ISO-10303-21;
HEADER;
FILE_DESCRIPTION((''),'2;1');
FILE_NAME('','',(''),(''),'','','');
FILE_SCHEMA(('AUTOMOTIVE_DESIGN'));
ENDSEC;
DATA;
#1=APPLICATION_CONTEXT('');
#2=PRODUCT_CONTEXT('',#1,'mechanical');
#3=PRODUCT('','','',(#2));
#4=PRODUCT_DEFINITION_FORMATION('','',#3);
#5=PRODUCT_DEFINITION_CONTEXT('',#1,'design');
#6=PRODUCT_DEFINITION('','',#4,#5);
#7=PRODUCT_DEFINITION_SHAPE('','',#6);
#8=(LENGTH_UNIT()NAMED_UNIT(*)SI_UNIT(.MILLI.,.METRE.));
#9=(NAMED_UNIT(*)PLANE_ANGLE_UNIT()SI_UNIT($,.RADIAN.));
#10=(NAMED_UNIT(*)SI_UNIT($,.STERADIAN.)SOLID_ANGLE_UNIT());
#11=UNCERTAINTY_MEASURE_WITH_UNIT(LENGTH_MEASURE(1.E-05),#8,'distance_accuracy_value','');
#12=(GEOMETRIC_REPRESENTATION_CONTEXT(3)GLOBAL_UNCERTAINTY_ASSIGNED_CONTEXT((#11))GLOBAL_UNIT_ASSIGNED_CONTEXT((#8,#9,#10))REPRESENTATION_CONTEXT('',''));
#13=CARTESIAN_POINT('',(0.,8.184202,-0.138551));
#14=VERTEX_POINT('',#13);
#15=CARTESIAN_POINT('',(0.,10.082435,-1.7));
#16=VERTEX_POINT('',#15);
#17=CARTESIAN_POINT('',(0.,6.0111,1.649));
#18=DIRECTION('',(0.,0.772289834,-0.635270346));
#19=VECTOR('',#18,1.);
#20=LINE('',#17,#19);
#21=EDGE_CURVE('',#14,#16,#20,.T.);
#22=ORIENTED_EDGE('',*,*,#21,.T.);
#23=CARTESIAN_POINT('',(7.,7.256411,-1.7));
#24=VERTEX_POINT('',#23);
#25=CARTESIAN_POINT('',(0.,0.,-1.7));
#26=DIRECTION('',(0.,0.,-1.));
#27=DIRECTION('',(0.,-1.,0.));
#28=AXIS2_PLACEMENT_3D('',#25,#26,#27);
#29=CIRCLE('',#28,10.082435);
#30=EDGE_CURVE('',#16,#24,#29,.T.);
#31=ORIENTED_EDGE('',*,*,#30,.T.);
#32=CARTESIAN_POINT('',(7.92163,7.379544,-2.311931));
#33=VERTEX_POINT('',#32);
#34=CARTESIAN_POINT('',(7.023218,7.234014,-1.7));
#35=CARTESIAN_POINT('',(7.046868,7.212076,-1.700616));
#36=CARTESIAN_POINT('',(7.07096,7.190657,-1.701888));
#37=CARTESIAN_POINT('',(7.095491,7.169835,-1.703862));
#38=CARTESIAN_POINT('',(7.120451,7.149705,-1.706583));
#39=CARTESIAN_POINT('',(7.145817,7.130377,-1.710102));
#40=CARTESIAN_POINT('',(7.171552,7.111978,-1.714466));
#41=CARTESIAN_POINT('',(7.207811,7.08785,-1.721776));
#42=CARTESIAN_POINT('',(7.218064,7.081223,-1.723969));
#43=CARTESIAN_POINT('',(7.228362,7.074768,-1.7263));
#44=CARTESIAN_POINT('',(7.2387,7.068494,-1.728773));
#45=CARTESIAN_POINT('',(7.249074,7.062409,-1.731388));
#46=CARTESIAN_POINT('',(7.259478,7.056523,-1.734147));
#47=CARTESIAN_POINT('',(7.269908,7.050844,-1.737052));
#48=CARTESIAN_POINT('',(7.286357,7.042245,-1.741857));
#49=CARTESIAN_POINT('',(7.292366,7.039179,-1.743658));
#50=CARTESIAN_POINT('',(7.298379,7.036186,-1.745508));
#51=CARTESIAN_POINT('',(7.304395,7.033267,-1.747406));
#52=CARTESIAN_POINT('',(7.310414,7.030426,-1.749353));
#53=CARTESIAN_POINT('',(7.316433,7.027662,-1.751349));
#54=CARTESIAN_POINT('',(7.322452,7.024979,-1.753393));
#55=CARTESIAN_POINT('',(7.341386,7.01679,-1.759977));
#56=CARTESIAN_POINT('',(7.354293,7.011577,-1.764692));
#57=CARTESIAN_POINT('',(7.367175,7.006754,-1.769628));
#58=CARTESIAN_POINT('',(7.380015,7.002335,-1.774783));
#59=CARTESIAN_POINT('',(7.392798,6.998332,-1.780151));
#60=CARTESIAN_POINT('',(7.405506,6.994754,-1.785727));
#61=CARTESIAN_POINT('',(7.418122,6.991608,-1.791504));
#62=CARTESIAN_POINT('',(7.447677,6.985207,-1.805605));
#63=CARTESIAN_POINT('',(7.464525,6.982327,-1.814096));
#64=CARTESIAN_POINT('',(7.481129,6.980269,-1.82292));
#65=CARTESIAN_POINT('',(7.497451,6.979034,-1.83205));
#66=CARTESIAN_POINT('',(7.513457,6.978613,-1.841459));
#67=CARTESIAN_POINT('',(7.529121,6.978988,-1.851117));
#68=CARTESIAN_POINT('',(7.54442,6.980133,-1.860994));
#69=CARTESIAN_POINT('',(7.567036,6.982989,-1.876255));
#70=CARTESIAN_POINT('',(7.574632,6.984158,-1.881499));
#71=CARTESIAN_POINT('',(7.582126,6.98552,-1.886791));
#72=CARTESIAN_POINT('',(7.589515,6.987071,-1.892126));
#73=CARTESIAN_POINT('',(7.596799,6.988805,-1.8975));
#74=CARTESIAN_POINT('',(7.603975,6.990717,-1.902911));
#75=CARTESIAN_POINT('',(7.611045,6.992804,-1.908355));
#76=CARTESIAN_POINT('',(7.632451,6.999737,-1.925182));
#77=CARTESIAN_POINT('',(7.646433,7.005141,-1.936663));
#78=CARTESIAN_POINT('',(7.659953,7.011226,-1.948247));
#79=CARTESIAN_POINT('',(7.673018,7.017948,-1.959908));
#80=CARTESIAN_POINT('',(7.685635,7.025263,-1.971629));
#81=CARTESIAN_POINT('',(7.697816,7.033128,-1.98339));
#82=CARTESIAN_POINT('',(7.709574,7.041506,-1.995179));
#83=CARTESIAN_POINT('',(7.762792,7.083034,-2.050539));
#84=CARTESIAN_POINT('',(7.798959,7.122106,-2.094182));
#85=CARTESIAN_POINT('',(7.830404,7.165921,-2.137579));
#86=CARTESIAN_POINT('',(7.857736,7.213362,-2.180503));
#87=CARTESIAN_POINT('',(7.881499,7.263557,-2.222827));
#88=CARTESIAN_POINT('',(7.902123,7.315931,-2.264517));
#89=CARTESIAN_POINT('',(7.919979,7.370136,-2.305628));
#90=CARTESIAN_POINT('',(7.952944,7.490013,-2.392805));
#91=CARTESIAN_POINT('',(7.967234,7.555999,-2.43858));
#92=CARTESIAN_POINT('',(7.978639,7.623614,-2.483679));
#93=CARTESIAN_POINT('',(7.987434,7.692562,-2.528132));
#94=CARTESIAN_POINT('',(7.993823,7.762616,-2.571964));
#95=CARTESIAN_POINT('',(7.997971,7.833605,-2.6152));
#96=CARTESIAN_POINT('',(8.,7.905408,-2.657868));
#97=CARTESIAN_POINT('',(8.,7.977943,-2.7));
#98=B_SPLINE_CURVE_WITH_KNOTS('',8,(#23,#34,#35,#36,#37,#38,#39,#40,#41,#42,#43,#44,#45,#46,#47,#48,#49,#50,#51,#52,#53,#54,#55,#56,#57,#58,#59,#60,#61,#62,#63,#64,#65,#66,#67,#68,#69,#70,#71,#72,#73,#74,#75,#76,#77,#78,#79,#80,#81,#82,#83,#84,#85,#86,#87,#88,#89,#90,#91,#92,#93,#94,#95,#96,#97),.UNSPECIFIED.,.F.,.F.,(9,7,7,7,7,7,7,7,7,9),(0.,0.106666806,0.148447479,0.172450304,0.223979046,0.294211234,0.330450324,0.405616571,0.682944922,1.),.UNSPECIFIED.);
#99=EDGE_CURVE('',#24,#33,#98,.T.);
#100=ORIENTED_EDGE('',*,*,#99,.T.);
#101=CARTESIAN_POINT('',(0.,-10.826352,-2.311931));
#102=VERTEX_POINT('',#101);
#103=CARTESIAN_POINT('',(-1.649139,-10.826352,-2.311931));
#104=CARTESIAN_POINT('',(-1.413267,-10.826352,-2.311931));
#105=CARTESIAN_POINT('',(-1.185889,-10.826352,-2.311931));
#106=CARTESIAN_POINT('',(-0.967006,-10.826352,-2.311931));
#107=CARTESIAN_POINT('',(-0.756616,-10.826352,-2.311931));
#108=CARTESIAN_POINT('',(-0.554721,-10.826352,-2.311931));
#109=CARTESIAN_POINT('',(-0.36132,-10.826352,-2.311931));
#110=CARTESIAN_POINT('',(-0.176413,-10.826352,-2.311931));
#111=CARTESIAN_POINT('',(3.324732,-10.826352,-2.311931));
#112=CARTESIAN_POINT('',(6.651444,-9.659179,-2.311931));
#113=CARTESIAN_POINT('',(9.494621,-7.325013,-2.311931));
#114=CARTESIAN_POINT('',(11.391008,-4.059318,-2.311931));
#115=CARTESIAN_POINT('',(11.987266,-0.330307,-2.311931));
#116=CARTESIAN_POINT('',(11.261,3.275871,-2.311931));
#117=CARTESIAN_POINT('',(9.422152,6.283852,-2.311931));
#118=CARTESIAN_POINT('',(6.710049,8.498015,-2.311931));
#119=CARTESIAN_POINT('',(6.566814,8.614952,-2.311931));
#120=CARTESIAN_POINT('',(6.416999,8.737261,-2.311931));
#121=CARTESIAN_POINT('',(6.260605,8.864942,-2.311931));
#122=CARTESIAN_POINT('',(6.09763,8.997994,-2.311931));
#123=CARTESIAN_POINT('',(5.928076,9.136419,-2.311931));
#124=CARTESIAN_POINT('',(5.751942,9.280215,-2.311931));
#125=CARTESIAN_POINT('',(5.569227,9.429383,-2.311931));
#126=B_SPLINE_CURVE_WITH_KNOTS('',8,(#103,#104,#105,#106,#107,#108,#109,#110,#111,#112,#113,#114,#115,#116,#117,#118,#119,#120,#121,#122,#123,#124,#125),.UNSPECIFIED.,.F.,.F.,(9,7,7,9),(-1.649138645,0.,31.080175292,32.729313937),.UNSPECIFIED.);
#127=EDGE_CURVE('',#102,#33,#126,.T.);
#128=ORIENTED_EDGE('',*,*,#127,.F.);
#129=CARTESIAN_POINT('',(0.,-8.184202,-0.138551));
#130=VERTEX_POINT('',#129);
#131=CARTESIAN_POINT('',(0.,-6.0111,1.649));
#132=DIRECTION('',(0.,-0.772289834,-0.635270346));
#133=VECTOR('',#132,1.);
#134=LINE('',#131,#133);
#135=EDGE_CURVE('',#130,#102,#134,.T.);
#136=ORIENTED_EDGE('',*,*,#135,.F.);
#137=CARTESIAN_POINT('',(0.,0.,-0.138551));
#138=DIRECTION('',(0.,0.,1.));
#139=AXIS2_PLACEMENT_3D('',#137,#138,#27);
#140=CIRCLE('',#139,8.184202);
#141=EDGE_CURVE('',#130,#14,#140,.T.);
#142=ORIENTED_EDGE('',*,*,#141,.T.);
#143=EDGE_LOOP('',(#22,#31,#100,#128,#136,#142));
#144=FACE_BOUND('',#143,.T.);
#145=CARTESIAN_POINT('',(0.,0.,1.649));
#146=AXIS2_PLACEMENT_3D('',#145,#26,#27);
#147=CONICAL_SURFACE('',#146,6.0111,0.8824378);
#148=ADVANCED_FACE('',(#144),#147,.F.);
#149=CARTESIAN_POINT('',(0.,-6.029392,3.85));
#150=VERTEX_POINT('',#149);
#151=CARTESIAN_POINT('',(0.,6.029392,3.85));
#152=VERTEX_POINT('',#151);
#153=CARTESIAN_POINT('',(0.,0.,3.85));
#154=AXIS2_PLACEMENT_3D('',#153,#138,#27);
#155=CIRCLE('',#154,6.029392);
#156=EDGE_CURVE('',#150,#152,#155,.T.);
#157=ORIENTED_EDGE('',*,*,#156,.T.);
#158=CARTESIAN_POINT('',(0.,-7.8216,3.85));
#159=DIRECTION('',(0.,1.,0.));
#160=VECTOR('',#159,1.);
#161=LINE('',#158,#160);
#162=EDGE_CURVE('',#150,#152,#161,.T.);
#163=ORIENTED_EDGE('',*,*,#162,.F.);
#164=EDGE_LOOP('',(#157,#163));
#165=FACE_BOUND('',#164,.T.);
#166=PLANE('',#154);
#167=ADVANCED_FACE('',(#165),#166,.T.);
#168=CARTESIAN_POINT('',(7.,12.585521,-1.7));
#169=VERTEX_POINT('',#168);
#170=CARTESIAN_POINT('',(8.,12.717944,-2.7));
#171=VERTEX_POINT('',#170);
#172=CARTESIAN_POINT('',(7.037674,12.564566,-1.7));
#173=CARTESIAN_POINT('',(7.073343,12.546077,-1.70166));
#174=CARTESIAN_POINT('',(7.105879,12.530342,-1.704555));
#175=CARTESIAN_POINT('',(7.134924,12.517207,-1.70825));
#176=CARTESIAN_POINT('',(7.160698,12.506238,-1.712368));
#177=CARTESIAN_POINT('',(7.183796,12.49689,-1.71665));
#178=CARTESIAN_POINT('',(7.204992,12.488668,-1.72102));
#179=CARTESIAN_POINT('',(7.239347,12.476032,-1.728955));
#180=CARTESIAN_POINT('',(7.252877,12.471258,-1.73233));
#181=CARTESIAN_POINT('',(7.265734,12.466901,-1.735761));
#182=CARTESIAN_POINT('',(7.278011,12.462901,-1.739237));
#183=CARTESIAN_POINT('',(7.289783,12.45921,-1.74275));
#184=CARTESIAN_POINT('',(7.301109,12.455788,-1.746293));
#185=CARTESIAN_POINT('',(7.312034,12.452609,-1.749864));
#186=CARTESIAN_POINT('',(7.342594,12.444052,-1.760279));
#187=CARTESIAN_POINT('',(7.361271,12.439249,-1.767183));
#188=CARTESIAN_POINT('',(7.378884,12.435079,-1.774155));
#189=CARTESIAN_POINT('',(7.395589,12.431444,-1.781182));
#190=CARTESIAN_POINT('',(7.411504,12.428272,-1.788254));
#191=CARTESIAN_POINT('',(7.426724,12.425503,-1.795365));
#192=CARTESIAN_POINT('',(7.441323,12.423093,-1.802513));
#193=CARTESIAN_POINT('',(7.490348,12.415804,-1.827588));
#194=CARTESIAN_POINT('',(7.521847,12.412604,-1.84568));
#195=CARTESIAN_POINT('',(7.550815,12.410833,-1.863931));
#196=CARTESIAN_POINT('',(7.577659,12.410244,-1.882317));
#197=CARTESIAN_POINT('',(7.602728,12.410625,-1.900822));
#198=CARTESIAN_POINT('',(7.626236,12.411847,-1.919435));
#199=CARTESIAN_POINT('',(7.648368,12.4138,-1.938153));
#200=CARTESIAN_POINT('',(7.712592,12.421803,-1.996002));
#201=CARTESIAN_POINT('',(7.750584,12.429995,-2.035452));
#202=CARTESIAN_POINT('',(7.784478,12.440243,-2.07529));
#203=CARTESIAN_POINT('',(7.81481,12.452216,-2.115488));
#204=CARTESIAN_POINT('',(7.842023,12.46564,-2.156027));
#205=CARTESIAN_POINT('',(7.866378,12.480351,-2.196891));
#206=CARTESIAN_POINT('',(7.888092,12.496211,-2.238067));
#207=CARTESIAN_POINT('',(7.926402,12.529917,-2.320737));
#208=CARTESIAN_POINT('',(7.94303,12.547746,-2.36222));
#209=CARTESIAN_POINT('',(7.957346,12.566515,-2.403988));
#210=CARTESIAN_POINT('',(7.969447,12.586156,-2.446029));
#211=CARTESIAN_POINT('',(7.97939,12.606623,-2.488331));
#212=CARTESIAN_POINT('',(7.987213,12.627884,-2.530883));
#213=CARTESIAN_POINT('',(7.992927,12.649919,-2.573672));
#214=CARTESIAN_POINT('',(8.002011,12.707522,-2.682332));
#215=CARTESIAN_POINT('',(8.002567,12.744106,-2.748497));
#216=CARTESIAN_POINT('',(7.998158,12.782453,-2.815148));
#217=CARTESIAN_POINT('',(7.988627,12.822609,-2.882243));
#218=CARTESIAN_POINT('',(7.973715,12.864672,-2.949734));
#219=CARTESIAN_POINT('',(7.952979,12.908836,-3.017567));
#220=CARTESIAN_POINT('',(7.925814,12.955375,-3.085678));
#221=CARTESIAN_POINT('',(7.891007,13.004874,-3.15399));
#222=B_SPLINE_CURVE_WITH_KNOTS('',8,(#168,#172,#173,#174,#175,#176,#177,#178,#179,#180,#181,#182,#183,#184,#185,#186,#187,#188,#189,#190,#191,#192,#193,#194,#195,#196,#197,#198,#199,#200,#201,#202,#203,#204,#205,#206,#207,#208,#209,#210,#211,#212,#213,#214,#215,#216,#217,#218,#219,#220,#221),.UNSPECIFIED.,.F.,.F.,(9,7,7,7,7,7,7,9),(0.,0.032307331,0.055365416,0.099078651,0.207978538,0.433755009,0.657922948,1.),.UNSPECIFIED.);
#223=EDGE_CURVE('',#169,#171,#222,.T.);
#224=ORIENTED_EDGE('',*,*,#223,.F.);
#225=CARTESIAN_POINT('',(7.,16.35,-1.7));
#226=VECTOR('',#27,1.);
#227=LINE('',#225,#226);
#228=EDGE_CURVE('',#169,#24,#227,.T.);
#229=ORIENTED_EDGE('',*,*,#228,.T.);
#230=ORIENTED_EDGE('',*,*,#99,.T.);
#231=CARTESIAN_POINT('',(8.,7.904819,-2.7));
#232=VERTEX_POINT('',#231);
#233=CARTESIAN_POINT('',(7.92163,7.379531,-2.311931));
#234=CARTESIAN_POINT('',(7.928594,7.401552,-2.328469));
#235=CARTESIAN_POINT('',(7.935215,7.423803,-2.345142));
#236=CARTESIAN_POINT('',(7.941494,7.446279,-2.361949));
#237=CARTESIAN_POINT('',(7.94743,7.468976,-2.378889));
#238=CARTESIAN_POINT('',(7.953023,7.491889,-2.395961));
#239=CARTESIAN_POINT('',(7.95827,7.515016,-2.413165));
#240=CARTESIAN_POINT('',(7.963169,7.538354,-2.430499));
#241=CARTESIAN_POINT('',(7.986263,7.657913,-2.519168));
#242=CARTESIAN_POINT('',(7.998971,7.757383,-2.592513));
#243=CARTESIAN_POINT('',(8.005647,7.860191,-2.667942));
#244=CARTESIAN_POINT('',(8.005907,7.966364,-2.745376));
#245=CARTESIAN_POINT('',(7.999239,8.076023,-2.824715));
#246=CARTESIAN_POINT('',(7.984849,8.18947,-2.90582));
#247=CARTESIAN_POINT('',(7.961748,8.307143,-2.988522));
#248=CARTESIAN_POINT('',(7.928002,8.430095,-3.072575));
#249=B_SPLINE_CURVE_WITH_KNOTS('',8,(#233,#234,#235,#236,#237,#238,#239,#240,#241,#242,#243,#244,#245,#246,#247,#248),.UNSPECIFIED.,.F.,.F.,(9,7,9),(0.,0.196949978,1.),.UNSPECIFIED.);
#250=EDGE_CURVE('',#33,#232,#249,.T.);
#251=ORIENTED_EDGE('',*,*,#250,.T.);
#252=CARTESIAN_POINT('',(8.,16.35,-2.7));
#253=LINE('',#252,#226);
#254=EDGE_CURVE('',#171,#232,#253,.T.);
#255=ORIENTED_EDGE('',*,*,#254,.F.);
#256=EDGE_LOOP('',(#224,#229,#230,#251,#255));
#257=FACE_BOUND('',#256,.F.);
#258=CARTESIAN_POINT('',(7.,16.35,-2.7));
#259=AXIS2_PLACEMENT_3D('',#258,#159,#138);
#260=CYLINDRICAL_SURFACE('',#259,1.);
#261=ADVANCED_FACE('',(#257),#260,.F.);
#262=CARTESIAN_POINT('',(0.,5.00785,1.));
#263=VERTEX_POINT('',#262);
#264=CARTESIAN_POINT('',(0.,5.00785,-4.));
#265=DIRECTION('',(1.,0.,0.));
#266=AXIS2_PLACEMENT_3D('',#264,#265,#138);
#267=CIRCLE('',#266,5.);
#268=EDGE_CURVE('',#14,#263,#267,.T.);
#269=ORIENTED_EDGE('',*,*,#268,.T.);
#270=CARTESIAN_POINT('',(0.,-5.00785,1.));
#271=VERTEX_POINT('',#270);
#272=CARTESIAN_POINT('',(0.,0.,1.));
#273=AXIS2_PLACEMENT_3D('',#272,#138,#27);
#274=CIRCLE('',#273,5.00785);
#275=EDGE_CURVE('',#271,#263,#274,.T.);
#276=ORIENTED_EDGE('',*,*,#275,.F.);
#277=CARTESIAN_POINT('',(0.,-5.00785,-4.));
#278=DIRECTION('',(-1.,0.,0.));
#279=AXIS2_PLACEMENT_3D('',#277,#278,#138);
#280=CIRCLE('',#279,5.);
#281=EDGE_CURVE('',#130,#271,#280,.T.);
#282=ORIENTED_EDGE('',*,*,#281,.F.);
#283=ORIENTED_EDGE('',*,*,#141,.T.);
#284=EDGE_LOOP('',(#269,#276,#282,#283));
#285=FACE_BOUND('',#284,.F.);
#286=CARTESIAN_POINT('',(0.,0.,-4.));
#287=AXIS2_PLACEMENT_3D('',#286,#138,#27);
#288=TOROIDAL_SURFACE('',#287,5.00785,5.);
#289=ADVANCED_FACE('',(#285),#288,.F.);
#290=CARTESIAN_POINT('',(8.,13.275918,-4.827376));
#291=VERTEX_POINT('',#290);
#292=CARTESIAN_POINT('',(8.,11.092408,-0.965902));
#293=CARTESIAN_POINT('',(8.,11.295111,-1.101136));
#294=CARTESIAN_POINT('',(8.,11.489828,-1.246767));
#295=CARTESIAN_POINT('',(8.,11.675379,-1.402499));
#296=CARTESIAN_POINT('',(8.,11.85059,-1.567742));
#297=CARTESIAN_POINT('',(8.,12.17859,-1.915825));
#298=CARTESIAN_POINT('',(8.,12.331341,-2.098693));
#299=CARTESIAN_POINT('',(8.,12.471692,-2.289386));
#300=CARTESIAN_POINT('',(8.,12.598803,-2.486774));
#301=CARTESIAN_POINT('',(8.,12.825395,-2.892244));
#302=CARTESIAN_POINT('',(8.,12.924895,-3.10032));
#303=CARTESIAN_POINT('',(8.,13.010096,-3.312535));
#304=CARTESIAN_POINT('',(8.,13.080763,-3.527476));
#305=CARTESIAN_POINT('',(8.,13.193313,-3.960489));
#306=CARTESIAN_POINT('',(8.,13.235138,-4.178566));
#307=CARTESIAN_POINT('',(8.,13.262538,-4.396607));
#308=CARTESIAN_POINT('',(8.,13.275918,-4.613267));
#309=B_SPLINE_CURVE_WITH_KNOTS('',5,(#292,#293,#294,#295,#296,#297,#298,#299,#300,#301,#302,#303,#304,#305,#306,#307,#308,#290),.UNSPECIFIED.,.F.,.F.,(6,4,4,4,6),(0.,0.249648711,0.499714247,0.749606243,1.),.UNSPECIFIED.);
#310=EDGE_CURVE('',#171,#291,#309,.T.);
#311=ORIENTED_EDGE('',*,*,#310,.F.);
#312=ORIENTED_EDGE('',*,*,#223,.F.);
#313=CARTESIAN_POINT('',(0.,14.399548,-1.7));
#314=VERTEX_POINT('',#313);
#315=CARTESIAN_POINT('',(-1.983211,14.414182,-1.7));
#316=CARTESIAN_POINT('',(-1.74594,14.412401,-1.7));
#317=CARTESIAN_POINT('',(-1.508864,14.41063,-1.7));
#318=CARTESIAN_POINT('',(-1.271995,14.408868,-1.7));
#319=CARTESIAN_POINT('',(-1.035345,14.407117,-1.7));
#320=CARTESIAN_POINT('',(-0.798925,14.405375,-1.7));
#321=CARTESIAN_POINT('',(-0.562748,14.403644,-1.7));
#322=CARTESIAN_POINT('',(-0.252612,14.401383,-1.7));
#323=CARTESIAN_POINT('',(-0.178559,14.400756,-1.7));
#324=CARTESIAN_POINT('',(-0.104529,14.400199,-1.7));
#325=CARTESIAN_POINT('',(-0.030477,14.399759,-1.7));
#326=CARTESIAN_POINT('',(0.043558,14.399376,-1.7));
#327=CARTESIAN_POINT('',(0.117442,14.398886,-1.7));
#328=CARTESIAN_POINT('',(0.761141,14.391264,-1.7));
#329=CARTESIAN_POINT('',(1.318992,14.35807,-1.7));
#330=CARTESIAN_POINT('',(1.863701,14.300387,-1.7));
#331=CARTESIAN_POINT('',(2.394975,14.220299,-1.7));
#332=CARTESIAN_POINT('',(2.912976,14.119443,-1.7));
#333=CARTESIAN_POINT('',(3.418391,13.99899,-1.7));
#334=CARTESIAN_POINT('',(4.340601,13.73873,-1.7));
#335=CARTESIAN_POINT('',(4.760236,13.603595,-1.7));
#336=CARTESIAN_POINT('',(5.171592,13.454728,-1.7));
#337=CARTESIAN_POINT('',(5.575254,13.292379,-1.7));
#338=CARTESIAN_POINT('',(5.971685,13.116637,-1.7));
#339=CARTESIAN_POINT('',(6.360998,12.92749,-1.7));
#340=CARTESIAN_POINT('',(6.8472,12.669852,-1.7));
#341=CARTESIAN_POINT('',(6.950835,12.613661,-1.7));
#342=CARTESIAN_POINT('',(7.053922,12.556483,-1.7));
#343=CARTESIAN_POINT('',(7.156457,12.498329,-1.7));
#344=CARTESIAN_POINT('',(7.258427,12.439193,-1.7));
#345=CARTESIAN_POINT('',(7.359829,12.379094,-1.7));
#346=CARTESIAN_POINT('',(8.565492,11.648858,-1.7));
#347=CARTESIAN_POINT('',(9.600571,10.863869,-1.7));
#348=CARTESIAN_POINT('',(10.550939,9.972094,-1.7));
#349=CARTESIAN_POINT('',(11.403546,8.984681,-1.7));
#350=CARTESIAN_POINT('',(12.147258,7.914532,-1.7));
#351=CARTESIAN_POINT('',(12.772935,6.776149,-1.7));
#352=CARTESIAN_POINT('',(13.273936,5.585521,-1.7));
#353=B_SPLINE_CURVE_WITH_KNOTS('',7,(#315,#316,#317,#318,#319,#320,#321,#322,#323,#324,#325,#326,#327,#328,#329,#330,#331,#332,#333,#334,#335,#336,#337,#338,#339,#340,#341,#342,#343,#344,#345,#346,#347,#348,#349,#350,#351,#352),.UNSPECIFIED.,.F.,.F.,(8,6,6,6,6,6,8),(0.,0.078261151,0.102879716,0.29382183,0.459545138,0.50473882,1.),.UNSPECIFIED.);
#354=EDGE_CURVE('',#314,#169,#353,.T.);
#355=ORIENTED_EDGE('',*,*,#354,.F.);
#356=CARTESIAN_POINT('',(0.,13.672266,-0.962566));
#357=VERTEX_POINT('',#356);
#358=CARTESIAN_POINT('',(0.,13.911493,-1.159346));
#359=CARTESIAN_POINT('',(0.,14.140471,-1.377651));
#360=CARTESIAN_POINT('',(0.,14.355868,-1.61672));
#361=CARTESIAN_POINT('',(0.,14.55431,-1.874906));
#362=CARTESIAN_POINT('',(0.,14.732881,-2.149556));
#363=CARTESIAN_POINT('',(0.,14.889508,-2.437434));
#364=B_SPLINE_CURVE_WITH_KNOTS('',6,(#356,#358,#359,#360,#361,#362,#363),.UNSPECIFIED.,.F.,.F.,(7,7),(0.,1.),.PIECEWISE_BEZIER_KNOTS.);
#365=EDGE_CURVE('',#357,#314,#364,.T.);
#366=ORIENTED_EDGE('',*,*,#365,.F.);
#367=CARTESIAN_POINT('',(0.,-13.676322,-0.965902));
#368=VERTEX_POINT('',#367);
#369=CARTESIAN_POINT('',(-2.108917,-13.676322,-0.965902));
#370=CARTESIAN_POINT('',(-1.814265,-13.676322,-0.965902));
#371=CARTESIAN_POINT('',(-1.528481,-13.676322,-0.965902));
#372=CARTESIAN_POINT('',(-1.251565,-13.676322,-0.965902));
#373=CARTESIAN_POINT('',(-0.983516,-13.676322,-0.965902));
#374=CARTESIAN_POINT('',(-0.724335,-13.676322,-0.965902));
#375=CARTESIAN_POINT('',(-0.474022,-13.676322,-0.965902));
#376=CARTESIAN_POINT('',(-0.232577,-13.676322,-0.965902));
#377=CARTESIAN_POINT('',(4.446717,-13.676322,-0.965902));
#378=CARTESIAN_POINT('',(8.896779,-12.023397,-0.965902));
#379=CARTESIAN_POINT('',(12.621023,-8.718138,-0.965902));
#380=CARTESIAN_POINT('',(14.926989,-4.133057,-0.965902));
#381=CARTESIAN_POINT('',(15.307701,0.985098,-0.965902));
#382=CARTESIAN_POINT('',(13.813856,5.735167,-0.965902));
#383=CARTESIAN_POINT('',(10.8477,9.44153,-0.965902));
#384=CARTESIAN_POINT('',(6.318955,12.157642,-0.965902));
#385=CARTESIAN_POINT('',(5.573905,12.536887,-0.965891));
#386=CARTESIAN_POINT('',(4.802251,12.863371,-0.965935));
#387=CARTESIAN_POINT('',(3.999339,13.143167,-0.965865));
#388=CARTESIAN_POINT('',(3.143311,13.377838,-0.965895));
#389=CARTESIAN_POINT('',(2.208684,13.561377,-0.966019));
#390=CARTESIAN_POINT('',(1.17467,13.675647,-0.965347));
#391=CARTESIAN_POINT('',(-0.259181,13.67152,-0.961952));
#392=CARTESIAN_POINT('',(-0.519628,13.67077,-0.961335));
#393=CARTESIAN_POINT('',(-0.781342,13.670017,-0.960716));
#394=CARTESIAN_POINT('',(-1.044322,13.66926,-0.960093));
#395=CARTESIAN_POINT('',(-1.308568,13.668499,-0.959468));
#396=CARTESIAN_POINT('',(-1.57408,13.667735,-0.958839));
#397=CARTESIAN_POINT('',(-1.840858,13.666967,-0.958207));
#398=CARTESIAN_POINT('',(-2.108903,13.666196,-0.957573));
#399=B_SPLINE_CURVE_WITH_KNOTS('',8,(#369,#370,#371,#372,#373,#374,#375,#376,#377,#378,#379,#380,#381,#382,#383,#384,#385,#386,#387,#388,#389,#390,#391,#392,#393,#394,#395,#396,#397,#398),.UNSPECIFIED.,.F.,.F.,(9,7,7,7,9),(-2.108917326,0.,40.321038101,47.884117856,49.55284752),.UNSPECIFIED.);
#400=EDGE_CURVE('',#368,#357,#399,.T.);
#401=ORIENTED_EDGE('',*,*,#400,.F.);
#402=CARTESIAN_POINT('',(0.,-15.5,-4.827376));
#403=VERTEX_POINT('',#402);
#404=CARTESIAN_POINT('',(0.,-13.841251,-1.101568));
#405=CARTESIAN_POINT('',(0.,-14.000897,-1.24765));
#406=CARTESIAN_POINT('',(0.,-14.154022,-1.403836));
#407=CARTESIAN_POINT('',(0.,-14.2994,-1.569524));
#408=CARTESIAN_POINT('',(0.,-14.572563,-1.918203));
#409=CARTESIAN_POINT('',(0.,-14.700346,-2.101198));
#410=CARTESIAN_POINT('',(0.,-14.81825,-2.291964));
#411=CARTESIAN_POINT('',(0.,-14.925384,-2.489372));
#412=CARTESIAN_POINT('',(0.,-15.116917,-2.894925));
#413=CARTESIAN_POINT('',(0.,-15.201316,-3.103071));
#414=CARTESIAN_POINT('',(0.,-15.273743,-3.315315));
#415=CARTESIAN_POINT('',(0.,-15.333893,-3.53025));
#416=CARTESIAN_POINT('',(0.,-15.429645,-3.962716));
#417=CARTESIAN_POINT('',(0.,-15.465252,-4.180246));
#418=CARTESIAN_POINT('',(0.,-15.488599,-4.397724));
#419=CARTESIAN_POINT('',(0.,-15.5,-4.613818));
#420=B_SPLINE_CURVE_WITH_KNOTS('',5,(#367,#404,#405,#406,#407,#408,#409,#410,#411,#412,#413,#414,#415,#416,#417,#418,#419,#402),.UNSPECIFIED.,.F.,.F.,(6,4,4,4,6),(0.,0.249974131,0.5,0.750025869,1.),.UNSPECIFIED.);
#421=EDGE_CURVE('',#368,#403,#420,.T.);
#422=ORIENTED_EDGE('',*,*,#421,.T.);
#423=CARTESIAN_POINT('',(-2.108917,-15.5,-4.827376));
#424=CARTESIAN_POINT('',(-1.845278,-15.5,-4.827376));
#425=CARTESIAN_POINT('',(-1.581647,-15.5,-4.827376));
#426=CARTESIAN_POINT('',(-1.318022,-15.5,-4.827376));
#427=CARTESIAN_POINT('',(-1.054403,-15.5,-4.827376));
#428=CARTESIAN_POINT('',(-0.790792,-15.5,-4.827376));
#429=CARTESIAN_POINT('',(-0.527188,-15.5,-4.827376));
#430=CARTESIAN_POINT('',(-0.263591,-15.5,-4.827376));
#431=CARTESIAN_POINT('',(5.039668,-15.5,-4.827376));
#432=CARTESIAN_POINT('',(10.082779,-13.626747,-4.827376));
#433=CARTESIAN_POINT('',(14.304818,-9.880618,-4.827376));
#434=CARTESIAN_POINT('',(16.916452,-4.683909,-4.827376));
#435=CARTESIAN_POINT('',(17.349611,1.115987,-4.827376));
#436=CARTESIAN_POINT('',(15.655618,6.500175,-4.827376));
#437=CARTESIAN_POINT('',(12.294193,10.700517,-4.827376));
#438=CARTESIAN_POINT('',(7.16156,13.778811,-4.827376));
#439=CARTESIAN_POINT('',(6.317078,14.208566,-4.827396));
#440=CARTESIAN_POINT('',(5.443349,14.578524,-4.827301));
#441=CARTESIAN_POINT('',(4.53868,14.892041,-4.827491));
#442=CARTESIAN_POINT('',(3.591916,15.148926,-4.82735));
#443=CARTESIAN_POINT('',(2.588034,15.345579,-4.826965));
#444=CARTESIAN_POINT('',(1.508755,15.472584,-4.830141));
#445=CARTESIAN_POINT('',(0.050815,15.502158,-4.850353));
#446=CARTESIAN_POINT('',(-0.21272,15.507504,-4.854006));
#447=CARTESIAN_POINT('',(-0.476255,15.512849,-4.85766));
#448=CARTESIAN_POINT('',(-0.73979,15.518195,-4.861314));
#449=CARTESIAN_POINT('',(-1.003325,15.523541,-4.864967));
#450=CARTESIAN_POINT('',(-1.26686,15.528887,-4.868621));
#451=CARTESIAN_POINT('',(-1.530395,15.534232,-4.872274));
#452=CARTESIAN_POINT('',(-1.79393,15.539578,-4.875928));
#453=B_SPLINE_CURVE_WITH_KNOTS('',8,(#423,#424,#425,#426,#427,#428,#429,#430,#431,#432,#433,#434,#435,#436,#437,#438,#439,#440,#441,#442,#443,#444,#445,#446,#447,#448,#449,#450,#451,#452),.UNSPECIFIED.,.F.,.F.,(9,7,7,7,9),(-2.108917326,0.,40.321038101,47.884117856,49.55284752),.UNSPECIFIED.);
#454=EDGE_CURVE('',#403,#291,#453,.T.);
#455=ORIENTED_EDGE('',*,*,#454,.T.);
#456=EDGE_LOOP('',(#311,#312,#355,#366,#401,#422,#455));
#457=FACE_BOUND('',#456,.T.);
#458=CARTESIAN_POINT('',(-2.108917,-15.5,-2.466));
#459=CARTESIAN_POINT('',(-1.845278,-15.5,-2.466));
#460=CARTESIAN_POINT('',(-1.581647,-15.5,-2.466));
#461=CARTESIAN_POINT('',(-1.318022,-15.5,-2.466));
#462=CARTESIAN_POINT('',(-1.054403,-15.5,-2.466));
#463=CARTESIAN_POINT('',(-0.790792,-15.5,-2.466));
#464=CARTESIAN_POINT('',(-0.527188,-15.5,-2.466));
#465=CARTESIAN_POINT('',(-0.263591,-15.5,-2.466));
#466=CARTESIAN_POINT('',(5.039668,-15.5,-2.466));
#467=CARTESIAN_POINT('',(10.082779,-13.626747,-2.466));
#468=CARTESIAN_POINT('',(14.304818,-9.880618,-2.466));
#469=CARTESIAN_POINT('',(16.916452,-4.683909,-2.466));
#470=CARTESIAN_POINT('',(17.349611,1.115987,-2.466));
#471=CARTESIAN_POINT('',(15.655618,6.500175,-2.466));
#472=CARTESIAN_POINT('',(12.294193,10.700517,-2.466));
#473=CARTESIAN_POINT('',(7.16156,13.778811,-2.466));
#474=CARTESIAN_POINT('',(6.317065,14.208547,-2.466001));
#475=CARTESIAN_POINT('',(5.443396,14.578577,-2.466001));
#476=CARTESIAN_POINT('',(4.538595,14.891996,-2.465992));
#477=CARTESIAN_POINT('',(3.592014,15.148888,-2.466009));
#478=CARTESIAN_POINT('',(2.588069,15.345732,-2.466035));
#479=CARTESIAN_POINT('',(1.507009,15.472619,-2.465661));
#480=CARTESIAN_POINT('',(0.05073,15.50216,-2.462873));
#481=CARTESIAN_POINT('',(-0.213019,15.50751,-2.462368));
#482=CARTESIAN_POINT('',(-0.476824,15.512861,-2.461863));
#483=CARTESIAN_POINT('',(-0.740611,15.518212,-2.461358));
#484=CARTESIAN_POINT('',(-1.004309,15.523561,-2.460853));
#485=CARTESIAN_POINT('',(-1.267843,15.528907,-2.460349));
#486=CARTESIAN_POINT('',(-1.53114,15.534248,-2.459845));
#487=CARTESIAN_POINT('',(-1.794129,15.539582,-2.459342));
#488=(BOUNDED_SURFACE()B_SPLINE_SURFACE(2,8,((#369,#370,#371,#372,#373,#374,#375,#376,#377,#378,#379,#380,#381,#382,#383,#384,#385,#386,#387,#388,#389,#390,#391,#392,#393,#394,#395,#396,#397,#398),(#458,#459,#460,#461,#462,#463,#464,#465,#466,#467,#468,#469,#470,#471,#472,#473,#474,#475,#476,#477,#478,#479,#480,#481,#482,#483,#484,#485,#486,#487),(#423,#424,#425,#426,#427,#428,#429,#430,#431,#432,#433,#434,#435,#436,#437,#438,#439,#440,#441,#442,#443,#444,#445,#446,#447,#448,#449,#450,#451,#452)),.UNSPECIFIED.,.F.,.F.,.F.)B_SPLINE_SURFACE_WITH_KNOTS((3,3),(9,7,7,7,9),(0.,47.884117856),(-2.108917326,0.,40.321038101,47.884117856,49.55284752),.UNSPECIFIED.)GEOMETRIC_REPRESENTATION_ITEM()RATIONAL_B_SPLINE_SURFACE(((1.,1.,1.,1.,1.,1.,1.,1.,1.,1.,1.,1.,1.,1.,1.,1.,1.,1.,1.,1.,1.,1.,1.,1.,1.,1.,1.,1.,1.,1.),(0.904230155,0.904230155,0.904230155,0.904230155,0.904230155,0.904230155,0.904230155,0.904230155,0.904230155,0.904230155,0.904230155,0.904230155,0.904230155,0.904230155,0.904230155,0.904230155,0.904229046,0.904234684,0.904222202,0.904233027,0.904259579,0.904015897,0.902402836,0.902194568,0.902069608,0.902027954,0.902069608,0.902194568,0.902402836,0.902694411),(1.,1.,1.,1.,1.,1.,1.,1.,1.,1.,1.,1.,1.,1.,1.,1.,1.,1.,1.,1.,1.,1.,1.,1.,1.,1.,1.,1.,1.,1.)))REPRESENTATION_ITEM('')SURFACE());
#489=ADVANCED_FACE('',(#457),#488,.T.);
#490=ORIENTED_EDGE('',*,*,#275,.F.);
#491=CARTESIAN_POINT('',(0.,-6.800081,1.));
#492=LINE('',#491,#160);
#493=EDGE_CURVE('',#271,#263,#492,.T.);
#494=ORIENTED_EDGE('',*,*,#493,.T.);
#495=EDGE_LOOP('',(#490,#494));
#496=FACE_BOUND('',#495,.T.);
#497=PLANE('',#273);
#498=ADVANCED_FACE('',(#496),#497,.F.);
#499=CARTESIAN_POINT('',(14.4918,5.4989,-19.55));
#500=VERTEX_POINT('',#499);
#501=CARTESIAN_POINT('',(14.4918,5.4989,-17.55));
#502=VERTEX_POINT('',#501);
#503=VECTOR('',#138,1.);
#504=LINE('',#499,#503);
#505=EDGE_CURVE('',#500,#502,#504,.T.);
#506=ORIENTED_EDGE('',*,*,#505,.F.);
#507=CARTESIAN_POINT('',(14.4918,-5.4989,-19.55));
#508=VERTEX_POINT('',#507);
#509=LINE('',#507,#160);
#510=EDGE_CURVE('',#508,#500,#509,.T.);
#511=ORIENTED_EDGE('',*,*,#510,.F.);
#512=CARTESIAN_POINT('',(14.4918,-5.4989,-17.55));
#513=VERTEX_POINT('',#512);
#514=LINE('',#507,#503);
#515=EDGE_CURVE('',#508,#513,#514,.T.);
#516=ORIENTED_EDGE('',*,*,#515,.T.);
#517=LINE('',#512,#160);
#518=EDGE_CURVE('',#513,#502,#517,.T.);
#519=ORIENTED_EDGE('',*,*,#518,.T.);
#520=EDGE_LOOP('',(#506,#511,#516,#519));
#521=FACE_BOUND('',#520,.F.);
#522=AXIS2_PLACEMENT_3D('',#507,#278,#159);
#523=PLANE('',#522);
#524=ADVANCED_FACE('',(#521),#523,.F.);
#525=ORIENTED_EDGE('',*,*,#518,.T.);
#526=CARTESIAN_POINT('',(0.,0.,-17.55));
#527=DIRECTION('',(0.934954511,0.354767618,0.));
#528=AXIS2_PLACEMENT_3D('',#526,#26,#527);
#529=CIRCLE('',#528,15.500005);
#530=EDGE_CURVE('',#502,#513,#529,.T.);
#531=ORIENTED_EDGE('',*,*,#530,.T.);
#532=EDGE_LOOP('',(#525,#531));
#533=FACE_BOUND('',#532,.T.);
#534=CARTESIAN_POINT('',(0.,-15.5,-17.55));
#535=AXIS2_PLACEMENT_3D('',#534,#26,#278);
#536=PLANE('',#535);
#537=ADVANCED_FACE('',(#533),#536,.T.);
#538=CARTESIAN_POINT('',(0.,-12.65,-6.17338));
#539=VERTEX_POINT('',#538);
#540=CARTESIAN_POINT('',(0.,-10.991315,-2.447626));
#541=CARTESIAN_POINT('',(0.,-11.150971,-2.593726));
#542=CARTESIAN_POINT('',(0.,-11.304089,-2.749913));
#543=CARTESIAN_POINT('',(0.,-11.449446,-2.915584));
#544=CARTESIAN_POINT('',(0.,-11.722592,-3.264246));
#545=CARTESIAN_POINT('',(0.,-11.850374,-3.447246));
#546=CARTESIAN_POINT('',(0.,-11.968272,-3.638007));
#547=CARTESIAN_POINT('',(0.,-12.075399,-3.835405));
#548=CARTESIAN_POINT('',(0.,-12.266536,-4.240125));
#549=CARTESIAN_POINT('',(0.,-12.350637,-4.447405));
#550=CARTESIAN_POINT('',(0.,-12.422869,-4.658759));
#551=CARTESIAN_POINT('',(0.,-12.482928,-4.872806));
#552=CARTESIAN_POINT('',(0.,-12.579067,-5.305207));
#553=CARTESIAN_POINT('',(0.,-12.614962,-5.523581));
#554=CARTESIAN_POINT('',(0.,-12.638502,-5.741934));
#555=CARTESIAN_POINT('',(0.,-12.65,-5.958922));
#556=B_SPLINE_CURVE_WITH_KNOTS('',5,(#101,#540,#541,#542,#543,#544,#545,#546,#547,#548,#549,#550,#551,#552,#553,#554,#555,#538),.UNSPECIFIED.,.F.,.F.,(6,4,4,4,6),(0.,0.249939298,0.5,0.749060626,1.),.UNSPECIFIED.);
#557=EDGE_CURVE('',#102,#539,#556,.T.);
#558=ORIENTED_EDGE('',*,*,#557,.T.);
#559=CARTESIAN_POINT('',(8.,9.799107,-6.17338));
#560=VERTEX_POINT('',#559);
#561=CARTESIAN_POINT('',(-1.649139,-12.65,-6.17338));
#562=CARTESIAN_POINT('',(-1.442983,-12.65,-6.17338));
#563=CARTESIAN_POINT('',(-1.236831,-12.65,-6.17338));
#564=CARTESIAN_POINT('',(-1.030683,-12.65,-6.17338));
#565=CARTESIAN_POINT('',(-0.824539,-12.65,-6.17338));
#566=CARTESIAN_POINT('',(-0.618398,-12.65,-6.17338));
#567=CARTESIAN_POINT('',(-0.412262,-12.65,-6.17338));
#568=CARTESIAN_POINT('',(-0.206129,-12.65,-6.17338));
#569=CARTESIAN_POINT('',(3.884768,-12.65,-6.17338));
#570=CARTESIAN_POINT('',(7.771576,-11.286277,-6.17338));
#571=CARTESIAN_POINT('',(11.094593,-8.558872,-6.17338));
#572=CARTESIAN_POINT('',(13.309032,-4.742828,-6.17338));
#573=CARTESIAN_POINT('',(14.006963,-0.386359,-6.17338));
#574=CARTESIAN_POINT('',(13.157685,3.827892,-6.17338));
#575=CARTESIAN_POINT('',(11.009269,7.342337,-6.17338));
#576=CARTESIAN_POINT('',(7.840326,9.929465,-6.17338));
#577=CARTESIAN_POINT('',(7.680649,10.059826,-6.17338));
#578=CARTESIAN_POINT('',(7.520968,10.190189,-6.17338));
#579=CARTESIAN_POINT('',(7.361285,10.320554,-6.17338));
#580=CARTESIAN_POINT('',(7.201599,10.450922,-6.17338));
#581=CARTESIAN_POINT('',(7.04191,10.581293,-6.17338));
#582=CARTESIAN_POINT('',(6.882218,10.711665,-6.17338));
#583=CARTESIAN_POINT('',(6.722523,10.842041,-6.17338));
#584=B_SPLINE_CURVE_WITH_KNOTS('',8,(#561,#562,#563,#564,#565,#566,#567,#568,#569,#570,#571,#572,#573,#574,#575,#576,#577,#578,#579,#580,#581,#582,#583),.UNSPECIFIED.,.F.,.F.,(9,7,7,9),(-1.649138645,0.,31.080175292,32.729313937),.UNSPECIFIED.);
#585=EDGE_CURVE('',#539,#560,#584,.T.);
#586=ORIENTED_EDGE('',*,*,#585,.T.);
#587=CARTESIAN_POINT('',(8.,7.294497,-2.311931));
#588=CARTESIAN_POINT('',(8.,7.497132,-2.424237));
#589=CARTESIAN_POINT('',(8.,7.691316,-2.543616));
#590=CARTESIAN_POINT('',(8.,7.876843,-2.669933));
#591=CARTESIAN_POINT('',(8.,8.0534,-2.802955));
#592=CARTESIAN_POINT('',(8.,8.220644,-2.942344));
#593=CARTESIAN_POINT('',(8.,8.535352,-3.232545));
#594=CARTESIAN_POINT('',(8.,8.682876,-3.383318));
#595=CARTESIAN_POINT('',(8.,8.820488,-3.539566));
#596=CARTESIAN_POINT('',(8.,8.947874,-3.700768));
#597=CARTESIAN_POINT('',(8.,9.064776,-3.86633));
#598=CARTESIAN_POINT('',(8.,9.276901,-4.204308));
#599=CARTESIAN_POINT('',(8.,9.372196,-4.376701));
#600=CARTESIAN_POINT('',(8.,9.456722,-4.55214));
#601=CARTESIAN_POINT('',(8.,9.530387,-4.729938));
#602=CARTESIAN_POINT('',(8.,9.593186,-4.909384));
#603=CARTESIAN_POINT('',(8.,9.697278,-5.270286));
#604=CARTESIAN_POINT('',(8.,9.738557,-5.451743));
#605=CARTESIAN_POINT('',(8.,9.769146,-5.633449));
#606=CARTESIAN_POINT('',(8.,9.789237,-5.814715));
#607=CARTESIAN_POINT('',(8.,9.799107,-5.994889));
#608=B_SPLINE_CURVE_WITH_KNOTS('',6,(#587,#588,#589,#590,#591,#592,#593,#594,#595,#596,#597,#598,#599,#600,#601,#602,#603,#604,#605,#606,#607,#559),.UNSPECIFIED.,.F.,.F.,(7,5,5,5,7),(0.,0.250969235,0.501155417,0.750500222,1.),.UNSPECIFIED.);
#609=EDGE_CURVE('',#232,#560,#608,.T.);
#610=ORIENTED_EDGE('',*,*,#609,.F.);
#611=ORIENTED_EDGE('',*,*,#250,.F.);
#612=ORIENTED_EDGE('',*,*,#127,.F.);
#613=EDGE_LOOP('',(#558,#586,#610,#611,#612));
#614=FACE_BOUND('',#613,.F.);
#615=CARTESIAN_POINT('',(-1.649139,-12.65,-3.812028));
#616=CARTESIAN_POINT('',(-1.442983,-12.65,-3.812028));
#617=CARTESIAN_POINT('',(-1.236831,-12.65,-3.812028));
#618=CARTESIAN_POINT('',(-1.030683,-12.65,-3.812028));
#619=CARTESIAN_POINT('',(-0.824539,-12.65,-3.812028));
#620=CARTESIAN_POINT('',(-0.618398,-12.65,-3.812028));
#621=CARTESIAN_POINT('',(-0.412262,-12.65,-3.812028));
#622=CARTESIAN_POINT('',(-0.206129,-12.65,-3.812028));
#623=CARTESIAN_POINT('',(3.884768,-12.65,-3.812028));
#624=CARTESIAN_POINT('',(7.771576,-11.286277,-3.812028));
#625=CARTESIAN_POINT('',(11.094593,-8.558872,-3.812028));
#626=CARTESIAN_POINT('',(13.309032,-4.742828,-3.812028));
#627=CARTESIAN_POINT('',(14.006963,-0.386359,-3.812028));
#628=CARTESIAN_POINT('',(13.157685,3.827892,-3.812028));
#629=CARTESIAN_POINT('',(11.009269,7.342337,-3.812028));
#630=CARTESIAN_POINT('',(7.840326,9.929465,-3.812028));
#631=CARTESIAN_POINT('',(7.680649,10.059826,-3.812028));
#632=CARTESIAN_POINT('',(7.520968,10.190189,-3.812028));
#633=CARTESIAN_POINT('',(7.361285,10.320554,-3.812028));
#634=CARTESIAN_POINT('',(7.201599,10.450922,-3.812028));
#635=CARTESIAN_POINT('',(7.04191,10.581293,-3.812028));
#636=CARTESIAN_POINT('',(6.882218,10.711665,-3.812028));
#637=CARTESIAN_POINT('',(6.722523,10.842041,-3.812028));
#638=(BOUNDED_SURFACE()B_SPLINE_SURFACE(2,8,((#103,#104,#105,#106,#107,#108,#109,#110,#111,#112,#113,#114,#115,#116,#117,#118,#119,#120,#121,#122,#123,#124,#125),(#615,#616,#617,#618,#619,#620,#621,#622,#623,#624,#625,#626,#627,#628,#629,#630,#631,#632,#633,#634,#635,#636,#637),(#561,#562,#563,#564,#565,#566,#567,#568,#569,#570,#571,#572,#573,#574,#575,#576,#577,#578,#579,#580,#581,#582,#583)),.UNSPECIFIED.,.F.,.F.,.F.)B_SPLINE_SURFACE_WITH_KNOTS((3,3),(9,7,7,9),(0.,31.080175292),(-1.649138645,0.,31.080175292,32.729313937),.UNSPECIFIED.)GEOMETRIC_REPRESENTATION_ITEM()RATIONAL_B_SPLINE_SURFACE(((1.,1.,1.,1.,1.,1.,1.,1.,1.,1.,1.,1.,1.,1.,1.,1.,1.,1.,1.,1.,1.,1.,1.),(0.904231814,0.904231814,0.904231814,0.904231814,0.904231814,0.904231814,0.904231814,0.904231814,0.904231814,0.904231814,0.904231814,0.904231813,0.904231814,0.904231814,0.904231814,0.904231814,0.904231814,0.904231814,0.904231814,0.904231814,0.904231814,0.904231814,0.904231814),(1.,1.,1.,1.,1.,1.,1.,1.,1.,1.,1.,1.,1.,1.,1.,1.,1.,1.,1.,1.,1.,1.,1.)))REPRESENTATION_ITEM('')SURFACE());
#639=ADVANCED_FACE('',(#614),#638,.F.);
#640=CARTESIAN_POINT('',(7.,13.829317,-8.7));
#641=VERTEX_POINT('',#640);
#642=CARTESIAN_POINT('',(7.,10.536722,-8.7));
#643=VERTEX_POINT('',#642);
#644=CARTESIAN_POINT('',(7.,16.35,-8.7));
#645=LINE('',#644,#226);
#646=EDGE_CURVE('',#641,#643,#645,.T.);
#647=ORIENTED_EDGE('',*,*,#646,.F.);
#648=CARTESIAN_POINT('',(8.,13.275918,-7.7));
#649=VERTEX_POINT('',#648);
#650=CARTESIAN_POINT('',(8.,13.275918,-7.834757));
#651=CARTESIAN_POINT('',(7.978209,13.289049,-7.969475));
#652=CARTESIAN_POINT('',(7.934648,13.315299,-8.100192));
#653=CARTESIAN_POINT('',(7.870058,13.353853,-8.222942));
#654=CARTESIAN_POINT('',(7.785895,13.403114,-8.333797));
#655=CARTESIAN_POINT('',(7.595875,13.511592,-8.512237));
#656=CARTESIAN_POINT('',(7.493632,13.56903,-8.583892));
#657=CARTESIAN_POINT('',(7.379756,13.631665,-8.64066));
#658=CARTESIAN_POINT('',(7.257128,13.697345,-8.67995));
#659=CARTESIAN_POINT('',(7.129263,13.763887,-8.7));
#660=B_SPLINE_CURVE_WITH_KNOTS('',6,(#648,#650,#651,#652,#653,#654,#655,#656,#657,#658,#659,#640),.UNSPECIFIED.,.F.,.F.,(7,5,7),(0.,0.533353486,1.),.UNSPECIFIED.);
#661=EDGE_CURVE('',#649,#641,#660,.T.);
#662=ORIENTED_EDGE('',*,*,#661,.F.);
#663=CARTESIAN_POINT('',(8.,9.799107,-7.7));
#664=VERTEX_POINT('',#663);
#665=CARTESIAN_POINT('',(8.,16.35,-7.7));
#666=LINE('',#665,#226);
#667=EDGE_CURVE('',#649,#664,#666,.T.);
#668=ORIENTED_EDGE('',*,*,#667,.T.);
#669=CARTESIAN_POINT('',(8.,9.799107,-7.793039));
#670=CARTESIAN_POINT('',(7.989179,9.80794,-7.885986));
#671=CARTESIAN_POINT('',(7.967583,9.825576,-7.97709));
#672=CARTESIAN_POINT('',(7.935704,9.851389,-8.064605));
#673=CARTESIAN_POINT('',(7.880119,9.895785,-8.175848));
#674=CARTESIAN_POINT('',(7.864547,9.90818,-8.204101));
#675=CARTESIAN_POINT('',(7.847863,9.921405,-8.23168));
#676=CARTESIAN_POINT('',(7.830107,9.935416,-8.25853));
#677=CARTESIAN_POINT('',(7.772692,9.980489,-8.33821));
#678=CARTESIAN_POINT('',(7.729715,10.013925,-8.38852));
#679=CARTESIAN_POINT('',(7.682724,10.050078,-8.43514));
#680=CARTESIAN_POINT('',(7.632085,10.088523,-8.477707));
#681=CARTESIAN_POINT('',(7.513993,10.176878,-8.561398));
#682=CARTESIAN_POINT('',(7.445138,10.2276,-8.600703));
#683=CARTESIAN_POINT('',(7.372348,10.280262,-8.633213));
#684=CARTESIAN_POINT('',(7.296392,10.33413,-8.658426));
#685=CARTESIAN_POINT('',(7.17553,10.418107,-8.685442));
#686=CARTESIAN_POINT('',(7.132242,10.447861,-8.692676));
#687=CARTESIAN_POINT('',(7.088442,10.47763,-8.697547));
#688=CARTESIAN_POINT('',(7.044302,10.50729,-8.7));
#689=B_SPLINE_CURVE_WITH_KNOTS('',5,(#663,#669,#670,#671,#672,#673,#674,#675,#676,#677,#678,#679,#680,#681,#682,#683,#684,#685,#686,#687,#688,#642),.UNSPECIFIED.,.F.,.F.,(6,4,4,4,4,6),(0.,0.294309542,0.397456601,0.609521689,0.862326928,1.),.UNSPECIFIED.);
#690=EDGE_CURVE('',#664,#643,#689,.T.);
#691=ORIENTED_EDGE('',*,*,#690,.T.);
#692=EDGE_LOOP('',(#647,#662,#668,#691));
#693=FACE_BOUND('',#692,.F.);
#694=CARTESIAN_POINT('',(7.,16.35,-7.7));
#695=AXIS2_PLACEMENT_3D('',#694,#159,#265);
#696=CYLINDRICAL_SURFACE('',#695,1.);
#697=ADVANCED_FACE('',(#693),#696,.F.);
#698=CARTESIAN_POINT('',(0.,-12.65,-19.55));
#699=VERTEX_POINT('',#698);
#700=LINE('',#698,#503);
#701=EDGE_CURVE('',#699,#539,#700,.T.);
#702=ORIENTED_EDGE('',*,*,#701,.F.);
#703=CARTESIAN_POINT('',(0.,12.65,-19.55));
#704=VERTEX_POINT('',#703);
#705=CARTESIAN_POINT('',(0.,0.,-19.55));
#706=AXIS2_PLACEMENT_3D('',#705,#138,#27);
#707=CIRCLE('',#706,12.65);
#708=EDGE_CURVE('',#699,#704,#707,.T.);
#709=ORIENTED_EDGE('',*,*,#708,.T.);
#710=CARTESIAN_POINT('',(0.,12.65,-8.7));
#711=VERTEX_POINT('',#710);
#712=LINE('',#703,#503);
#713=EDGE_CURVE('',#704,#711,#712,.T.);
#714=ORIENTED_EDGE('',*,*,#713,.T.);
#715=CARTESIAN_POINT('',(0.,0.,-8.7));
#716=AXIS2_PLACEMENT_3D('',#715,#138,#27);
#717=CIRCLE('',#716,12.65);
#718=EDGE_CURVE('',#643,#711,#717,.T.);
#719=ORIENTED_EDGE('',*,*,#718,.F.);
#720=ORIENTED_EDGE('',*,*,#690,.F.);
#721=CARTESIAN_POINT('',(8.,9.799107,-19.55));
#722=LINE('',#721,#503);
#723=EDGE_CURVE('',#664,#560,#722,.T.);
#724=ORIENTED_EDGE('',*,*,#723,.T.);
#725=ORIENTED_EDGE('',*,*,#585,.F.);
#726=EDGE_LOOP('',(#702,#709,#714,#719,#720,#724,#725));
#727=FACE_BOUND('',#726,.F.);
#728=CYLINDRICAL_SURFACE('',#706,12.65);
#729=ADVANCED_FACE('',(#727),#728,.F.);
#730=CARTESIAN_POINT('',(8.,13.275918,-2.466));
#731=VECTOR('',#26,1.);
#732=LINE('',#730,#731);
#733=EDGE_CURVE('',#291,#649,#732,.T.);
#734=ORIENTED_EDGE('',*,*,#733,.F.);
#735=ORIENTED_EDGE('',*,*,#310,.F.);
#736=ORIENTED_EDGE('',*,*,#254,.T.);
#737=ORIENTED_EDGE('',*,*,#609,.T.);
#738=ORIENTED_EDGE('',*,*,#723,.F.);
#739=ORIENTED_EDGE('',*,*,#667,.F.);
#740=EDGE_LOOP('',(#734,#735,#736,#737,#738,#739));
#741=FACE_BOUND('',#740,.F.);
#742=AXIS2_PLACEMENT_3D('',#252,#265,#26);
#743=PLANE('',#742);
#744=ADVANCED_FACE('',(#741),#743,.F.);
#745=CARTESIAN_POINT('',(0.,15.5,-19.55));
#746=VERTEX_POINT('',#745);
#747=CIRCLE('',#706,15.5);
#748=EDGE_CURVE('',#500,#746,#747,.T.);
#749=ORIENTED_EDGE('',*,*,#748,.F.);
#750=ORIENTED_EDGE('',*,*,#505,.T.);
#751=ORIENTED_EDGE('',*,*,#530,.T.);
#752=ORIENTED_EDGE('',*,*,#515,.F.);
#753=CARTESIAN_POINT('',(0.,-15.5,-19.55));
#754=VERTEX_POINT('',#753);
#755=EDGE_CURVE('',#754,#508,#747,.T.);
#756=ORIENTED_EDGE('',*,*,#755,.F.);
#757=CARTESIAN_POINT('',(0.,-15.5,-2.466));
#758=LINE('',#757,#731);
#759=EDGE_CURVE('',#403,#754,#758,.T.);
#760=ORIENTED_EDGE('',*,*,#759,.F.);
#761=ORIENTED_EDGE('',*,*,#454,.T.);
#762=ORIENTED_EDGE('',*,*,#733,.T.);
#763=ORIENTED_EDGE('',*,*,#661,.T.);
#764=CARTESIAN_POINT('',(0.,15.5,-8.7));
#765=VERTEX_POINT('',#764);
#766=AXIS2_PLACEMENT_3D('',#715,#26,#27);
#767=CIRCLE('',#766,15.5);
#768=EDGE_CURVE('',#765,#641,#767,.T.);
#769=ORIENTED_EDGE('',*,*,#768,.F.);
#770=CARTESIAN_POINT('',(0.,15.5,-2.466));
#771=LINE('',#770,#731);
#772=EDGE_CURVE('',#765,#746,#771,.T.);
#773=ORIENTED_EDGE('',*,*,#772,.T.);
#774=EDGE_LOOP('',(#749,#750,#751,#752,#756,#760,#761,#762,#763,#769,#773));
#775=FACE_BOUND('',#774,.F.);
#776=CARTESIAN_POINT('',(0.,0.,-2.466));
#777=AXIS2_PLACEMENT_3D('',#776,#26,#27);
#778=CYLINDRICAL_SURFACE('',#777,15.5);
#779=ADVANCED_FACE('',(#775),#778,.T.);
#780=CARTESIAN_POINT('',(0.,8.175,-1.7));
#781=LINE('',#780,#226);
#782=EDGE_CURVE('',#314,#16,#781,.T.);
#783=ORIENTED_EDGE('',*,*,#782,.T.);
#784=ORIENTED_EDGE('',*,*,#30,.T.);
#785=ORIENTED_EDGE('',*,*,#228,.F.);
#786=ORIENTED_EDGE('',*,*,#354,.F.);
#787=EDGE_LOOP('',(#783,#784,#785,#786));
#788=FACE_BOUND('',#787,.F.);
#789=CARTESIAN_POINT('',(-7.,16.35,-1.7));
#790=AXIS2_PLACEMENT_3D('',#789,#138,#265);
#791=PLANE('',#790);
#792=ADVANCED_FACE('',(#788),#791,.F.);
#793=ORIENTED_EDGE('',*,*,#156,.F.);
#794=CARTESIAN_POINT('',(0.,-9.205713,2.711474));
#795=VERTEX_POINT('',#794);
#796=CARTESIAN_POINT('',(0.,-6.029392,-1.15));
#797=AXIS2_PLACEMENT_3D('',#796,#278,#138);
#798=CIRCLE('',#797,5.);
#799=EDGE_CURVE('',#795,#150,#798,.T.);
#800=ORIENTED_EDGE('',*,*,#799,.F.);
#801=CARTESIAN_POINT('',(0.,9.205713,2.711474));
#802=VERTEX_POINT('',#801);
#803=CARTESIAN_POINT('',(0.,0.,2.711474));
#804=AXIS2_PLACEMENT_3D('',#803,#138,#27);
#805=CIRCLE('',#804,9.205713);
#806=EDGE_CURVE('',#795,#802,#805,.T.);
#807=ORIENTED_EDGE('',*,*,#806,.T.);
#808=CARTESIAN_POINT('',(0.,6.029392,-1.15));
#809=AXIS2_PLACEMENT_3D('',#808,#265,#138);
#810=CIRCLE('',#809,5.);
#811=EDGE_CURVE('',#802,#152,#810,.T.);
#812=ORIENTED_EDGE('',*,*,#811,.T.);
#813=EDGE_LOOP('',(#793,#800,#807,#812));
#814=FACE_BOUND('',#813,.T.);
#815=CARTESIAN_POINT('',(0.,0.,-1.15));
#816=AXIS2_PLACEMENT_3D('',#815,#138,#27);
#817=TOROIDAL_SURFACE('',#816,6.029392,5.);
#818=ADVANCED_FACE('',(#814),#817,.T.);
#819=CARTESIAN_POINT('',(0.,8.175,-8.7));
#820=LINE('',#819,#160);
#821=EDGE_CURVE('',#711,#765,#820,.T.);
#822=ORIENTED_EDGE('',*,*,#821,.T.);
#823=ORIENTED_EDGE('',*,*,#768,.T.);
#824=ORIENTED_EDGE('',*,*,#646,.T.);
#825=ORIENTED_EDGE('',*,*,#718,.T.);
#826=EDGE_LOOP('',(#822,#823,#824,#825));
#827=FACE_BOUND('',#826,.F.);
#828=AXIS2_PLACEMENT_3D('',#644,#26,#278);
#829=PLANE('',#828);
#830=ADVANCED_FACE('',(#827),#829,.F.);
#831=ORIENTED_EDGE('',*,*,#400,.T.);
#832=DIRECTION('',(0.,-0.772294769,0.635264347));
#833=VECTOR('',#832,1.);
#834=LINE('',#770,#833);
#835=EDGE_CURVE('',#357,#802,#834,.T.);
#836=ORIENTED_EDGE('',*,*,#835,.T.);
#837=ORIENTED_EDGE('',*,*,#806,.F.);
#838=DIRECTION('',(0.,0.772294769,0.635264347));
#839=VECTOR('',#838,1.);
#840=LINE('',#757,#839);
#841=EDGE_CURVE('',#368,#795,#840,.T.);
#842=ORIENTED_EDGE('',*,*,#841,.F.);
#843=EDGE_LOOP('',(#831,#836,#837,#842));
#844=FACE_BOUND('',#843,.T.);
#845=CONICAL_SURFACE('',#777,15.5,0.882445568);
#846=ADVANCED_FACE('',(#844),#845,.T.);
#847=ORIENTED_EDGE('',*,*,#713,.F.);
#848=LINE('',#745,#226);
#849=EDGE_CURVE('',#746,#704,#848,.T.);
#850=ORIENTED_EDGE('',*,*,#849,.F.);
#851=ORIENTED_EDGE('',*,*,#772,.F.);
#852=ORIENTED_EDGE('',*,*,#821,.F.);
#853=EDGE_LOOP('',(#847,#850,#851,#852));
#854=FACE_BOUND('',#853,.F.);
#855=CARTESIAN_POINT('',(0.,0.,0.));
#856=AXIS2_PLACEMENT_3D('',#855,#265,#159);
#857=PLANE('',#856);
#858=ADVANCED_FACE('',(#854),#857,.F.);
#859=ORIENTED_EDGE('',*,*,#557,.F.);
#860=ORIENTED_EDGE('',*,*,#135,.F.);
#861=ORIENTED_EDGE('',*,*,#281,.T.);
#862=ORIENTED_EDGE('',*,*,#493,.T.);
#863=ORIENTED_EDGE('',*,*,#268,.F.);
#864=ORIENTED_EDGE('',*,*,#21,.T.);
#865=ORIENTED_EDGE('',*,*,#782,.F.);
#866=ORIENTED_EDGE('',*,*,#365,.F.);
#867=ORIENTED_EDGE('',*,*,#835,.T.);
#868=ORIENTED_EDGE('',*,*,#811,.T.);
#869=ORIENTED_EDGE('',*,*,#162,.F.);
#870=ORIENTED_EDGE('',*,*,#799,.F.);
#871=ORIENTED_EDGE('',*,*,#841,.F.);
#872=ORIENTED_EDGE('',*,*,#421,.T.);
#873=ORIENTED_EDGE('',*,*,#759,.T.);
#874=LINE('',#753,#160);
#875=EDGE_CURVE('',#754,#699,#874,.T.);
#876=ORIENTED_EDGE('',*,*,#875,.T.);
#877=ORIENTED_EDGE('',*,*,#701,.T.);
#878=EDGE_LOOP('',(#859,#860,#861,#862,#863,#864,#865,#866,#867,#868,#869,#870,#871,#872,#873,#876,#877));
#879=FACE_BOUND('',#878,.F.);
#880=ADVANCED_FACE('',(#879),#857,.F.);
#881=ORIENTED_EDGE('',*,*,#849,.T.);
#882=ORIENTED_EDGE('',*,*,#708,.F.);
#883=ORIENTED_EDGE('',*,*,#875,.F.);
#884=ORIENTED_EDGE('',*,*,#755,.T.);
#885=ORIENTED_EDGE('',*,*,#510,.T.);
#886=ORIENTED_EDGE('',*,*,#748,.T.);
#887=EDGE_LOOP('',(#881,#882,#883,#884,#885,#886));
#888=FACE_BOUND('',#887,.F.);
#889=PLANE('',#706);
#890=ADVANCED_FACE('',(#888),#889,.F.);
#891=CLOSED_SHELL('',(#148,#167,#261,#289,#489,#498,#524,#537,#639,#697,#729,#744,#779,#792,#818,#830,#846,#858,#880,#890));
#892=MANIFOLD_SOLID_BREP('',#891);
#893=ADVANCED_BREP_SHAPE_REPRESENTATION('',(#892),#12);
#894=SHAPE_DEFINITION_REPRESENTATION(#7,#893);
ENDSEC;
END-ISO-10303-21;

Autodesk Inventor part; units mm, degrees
ref_plane "YZ Plane" through (0, 0, 0) normal (1, 0, 0) x (0, 1, 0)
ref_plane "XZ Plane" through (0, 0, 0) normal (0, 1, 0) x (-1, 0, 0)
sketch "Эскиз1" plane through (0, 0, 0) normal (1, 0, 0) x (0, 1, 0)
  line L0 (0, 1) -> (-7.8216, 1)
  line L1 (-7.8216, 1) -> (-7.8216, 3.85)
  line L2 (-7.8216, 3.85) -> (0, 3.85)
  line L3 (0, 3.85) -> (0, 1)
  line L4 (-15.5, -46.55) -> (-15.5, -19.55)
  line L5 (-15.5, -19.55) -> (-12.65, -19.55)
  line L6 (-12.65, -19.55) -> (-12.65, -2.466)
  line L7 (-12.65, -2.466) -> (-15.5, -2.466)
  line L8 (-15.5, -2.466) -> (-15.5, -19.55)
  line L9 (-12.15, -9.434) -> (-12.15, -39.916)
  line L10 (-15.5, -2.466) -> (-7.8216, 3.85)
  line L11 (-7.8216, 3.85) -> (-6.0111, 1.649)
  line L12 (-6.0111, 1.649) -> (-13.6895, -4.6671)
  line L13 (-13.6895, -4.6671) -> (-15.5, -2.466)
  line L14 (-6.8, -2) -> (-6.8, -7.7)
  line L15 (0, -56.63) -> (0, 13.93) projected
  point P0 (0, 0)
  point P1 (-6.8, 1)
  point P2 (-12.65, -3.812)
  dimension "d0" = 0.5
  dimension "d1" = 2.85
  dimension "d2" = 2.85
  dimension "d3" = 50.56
  dimension "d4" = 0
  dimension "d5" = 1
  dimension "d6" = 2.85
  dimension "d7" = 0
revolve "Вращение1" add sketch "Эскиз1" angle 180 about axis through (0, 0, -10) along (0, 0, 1)
ref_plane "РабПлоскость1" through (7, 16.35, -7.7) normal (0, 1, 0) x (-1, 0, 0)
sketch "Эскиз2" plane through (7, 16.35, -7.7) normal (0, 1, 0) x (-1, 0, 0)
  line L0 (0, 0) -> (14, 0) projected
  line L1 (14, 0) -> (14, 5) projected
  line L2 (0, 5) -> (14, 5) projected
  line L3 (0, 0) -> (0, 5) projected
  line L4 (0, -1) -> (14, -1)
  line L5 (15, 0) -> (15, 5)
  line L6 (14, 6) -> (0, 6)
  line L7 (-1, 5) -> (-1, 0)
  arc A0 (-1, 0) -> (0, -1) centre (0, 0) ccw
  arc A1 (0, 6) -> (-1, 5) centre (0, 5) ccw
  arc A2 (15, 5) -> (14, 6) centre (14, 5) ccw
  arc A3 (14, -1) -> (15, 0) centre (14, 0) ccw
  point P0 (7, 7.7)
  dimension "d9" = 1
  dimension "d10" = 1
  dimension "d11" = 1
  dimension "d12" = 1
  dimension "d13" = 1
  dimension "d14" = 1
extrude "Выдавливание1" cut sketch "Эскиз2" against normal blind 10 contours L3 L2 L1 L0 | A0 L7 A1 L6 A2 L5 A3 L4
fillet "Сопряжение1" radius 5 4 edges at (7.8216, 0, 3.85) (14.938, -4.1361, -2.466) (6.8, 0, 1) (11.916, -4.2464, -3.812)
sketch "Эскиз3" plane through (0, -15.5, -19.55) normal (0, 0, -1) x (-1, 0, 0)
  line L0 (-14.4918, 10.0011) -> (-14.4918, 20.9989) projected
  arc A0 (-14.4918, 20.9989) -> (-14.4918, 10.0011) centre (0, 15.5) ccw projected
  point P0 (0, 15.5)
extrude "Выдавливание2" cut sketch "Эскиз3" against normal blind 2
properties part number "EncCoverHalf" material "Пластик ПАЭК"
